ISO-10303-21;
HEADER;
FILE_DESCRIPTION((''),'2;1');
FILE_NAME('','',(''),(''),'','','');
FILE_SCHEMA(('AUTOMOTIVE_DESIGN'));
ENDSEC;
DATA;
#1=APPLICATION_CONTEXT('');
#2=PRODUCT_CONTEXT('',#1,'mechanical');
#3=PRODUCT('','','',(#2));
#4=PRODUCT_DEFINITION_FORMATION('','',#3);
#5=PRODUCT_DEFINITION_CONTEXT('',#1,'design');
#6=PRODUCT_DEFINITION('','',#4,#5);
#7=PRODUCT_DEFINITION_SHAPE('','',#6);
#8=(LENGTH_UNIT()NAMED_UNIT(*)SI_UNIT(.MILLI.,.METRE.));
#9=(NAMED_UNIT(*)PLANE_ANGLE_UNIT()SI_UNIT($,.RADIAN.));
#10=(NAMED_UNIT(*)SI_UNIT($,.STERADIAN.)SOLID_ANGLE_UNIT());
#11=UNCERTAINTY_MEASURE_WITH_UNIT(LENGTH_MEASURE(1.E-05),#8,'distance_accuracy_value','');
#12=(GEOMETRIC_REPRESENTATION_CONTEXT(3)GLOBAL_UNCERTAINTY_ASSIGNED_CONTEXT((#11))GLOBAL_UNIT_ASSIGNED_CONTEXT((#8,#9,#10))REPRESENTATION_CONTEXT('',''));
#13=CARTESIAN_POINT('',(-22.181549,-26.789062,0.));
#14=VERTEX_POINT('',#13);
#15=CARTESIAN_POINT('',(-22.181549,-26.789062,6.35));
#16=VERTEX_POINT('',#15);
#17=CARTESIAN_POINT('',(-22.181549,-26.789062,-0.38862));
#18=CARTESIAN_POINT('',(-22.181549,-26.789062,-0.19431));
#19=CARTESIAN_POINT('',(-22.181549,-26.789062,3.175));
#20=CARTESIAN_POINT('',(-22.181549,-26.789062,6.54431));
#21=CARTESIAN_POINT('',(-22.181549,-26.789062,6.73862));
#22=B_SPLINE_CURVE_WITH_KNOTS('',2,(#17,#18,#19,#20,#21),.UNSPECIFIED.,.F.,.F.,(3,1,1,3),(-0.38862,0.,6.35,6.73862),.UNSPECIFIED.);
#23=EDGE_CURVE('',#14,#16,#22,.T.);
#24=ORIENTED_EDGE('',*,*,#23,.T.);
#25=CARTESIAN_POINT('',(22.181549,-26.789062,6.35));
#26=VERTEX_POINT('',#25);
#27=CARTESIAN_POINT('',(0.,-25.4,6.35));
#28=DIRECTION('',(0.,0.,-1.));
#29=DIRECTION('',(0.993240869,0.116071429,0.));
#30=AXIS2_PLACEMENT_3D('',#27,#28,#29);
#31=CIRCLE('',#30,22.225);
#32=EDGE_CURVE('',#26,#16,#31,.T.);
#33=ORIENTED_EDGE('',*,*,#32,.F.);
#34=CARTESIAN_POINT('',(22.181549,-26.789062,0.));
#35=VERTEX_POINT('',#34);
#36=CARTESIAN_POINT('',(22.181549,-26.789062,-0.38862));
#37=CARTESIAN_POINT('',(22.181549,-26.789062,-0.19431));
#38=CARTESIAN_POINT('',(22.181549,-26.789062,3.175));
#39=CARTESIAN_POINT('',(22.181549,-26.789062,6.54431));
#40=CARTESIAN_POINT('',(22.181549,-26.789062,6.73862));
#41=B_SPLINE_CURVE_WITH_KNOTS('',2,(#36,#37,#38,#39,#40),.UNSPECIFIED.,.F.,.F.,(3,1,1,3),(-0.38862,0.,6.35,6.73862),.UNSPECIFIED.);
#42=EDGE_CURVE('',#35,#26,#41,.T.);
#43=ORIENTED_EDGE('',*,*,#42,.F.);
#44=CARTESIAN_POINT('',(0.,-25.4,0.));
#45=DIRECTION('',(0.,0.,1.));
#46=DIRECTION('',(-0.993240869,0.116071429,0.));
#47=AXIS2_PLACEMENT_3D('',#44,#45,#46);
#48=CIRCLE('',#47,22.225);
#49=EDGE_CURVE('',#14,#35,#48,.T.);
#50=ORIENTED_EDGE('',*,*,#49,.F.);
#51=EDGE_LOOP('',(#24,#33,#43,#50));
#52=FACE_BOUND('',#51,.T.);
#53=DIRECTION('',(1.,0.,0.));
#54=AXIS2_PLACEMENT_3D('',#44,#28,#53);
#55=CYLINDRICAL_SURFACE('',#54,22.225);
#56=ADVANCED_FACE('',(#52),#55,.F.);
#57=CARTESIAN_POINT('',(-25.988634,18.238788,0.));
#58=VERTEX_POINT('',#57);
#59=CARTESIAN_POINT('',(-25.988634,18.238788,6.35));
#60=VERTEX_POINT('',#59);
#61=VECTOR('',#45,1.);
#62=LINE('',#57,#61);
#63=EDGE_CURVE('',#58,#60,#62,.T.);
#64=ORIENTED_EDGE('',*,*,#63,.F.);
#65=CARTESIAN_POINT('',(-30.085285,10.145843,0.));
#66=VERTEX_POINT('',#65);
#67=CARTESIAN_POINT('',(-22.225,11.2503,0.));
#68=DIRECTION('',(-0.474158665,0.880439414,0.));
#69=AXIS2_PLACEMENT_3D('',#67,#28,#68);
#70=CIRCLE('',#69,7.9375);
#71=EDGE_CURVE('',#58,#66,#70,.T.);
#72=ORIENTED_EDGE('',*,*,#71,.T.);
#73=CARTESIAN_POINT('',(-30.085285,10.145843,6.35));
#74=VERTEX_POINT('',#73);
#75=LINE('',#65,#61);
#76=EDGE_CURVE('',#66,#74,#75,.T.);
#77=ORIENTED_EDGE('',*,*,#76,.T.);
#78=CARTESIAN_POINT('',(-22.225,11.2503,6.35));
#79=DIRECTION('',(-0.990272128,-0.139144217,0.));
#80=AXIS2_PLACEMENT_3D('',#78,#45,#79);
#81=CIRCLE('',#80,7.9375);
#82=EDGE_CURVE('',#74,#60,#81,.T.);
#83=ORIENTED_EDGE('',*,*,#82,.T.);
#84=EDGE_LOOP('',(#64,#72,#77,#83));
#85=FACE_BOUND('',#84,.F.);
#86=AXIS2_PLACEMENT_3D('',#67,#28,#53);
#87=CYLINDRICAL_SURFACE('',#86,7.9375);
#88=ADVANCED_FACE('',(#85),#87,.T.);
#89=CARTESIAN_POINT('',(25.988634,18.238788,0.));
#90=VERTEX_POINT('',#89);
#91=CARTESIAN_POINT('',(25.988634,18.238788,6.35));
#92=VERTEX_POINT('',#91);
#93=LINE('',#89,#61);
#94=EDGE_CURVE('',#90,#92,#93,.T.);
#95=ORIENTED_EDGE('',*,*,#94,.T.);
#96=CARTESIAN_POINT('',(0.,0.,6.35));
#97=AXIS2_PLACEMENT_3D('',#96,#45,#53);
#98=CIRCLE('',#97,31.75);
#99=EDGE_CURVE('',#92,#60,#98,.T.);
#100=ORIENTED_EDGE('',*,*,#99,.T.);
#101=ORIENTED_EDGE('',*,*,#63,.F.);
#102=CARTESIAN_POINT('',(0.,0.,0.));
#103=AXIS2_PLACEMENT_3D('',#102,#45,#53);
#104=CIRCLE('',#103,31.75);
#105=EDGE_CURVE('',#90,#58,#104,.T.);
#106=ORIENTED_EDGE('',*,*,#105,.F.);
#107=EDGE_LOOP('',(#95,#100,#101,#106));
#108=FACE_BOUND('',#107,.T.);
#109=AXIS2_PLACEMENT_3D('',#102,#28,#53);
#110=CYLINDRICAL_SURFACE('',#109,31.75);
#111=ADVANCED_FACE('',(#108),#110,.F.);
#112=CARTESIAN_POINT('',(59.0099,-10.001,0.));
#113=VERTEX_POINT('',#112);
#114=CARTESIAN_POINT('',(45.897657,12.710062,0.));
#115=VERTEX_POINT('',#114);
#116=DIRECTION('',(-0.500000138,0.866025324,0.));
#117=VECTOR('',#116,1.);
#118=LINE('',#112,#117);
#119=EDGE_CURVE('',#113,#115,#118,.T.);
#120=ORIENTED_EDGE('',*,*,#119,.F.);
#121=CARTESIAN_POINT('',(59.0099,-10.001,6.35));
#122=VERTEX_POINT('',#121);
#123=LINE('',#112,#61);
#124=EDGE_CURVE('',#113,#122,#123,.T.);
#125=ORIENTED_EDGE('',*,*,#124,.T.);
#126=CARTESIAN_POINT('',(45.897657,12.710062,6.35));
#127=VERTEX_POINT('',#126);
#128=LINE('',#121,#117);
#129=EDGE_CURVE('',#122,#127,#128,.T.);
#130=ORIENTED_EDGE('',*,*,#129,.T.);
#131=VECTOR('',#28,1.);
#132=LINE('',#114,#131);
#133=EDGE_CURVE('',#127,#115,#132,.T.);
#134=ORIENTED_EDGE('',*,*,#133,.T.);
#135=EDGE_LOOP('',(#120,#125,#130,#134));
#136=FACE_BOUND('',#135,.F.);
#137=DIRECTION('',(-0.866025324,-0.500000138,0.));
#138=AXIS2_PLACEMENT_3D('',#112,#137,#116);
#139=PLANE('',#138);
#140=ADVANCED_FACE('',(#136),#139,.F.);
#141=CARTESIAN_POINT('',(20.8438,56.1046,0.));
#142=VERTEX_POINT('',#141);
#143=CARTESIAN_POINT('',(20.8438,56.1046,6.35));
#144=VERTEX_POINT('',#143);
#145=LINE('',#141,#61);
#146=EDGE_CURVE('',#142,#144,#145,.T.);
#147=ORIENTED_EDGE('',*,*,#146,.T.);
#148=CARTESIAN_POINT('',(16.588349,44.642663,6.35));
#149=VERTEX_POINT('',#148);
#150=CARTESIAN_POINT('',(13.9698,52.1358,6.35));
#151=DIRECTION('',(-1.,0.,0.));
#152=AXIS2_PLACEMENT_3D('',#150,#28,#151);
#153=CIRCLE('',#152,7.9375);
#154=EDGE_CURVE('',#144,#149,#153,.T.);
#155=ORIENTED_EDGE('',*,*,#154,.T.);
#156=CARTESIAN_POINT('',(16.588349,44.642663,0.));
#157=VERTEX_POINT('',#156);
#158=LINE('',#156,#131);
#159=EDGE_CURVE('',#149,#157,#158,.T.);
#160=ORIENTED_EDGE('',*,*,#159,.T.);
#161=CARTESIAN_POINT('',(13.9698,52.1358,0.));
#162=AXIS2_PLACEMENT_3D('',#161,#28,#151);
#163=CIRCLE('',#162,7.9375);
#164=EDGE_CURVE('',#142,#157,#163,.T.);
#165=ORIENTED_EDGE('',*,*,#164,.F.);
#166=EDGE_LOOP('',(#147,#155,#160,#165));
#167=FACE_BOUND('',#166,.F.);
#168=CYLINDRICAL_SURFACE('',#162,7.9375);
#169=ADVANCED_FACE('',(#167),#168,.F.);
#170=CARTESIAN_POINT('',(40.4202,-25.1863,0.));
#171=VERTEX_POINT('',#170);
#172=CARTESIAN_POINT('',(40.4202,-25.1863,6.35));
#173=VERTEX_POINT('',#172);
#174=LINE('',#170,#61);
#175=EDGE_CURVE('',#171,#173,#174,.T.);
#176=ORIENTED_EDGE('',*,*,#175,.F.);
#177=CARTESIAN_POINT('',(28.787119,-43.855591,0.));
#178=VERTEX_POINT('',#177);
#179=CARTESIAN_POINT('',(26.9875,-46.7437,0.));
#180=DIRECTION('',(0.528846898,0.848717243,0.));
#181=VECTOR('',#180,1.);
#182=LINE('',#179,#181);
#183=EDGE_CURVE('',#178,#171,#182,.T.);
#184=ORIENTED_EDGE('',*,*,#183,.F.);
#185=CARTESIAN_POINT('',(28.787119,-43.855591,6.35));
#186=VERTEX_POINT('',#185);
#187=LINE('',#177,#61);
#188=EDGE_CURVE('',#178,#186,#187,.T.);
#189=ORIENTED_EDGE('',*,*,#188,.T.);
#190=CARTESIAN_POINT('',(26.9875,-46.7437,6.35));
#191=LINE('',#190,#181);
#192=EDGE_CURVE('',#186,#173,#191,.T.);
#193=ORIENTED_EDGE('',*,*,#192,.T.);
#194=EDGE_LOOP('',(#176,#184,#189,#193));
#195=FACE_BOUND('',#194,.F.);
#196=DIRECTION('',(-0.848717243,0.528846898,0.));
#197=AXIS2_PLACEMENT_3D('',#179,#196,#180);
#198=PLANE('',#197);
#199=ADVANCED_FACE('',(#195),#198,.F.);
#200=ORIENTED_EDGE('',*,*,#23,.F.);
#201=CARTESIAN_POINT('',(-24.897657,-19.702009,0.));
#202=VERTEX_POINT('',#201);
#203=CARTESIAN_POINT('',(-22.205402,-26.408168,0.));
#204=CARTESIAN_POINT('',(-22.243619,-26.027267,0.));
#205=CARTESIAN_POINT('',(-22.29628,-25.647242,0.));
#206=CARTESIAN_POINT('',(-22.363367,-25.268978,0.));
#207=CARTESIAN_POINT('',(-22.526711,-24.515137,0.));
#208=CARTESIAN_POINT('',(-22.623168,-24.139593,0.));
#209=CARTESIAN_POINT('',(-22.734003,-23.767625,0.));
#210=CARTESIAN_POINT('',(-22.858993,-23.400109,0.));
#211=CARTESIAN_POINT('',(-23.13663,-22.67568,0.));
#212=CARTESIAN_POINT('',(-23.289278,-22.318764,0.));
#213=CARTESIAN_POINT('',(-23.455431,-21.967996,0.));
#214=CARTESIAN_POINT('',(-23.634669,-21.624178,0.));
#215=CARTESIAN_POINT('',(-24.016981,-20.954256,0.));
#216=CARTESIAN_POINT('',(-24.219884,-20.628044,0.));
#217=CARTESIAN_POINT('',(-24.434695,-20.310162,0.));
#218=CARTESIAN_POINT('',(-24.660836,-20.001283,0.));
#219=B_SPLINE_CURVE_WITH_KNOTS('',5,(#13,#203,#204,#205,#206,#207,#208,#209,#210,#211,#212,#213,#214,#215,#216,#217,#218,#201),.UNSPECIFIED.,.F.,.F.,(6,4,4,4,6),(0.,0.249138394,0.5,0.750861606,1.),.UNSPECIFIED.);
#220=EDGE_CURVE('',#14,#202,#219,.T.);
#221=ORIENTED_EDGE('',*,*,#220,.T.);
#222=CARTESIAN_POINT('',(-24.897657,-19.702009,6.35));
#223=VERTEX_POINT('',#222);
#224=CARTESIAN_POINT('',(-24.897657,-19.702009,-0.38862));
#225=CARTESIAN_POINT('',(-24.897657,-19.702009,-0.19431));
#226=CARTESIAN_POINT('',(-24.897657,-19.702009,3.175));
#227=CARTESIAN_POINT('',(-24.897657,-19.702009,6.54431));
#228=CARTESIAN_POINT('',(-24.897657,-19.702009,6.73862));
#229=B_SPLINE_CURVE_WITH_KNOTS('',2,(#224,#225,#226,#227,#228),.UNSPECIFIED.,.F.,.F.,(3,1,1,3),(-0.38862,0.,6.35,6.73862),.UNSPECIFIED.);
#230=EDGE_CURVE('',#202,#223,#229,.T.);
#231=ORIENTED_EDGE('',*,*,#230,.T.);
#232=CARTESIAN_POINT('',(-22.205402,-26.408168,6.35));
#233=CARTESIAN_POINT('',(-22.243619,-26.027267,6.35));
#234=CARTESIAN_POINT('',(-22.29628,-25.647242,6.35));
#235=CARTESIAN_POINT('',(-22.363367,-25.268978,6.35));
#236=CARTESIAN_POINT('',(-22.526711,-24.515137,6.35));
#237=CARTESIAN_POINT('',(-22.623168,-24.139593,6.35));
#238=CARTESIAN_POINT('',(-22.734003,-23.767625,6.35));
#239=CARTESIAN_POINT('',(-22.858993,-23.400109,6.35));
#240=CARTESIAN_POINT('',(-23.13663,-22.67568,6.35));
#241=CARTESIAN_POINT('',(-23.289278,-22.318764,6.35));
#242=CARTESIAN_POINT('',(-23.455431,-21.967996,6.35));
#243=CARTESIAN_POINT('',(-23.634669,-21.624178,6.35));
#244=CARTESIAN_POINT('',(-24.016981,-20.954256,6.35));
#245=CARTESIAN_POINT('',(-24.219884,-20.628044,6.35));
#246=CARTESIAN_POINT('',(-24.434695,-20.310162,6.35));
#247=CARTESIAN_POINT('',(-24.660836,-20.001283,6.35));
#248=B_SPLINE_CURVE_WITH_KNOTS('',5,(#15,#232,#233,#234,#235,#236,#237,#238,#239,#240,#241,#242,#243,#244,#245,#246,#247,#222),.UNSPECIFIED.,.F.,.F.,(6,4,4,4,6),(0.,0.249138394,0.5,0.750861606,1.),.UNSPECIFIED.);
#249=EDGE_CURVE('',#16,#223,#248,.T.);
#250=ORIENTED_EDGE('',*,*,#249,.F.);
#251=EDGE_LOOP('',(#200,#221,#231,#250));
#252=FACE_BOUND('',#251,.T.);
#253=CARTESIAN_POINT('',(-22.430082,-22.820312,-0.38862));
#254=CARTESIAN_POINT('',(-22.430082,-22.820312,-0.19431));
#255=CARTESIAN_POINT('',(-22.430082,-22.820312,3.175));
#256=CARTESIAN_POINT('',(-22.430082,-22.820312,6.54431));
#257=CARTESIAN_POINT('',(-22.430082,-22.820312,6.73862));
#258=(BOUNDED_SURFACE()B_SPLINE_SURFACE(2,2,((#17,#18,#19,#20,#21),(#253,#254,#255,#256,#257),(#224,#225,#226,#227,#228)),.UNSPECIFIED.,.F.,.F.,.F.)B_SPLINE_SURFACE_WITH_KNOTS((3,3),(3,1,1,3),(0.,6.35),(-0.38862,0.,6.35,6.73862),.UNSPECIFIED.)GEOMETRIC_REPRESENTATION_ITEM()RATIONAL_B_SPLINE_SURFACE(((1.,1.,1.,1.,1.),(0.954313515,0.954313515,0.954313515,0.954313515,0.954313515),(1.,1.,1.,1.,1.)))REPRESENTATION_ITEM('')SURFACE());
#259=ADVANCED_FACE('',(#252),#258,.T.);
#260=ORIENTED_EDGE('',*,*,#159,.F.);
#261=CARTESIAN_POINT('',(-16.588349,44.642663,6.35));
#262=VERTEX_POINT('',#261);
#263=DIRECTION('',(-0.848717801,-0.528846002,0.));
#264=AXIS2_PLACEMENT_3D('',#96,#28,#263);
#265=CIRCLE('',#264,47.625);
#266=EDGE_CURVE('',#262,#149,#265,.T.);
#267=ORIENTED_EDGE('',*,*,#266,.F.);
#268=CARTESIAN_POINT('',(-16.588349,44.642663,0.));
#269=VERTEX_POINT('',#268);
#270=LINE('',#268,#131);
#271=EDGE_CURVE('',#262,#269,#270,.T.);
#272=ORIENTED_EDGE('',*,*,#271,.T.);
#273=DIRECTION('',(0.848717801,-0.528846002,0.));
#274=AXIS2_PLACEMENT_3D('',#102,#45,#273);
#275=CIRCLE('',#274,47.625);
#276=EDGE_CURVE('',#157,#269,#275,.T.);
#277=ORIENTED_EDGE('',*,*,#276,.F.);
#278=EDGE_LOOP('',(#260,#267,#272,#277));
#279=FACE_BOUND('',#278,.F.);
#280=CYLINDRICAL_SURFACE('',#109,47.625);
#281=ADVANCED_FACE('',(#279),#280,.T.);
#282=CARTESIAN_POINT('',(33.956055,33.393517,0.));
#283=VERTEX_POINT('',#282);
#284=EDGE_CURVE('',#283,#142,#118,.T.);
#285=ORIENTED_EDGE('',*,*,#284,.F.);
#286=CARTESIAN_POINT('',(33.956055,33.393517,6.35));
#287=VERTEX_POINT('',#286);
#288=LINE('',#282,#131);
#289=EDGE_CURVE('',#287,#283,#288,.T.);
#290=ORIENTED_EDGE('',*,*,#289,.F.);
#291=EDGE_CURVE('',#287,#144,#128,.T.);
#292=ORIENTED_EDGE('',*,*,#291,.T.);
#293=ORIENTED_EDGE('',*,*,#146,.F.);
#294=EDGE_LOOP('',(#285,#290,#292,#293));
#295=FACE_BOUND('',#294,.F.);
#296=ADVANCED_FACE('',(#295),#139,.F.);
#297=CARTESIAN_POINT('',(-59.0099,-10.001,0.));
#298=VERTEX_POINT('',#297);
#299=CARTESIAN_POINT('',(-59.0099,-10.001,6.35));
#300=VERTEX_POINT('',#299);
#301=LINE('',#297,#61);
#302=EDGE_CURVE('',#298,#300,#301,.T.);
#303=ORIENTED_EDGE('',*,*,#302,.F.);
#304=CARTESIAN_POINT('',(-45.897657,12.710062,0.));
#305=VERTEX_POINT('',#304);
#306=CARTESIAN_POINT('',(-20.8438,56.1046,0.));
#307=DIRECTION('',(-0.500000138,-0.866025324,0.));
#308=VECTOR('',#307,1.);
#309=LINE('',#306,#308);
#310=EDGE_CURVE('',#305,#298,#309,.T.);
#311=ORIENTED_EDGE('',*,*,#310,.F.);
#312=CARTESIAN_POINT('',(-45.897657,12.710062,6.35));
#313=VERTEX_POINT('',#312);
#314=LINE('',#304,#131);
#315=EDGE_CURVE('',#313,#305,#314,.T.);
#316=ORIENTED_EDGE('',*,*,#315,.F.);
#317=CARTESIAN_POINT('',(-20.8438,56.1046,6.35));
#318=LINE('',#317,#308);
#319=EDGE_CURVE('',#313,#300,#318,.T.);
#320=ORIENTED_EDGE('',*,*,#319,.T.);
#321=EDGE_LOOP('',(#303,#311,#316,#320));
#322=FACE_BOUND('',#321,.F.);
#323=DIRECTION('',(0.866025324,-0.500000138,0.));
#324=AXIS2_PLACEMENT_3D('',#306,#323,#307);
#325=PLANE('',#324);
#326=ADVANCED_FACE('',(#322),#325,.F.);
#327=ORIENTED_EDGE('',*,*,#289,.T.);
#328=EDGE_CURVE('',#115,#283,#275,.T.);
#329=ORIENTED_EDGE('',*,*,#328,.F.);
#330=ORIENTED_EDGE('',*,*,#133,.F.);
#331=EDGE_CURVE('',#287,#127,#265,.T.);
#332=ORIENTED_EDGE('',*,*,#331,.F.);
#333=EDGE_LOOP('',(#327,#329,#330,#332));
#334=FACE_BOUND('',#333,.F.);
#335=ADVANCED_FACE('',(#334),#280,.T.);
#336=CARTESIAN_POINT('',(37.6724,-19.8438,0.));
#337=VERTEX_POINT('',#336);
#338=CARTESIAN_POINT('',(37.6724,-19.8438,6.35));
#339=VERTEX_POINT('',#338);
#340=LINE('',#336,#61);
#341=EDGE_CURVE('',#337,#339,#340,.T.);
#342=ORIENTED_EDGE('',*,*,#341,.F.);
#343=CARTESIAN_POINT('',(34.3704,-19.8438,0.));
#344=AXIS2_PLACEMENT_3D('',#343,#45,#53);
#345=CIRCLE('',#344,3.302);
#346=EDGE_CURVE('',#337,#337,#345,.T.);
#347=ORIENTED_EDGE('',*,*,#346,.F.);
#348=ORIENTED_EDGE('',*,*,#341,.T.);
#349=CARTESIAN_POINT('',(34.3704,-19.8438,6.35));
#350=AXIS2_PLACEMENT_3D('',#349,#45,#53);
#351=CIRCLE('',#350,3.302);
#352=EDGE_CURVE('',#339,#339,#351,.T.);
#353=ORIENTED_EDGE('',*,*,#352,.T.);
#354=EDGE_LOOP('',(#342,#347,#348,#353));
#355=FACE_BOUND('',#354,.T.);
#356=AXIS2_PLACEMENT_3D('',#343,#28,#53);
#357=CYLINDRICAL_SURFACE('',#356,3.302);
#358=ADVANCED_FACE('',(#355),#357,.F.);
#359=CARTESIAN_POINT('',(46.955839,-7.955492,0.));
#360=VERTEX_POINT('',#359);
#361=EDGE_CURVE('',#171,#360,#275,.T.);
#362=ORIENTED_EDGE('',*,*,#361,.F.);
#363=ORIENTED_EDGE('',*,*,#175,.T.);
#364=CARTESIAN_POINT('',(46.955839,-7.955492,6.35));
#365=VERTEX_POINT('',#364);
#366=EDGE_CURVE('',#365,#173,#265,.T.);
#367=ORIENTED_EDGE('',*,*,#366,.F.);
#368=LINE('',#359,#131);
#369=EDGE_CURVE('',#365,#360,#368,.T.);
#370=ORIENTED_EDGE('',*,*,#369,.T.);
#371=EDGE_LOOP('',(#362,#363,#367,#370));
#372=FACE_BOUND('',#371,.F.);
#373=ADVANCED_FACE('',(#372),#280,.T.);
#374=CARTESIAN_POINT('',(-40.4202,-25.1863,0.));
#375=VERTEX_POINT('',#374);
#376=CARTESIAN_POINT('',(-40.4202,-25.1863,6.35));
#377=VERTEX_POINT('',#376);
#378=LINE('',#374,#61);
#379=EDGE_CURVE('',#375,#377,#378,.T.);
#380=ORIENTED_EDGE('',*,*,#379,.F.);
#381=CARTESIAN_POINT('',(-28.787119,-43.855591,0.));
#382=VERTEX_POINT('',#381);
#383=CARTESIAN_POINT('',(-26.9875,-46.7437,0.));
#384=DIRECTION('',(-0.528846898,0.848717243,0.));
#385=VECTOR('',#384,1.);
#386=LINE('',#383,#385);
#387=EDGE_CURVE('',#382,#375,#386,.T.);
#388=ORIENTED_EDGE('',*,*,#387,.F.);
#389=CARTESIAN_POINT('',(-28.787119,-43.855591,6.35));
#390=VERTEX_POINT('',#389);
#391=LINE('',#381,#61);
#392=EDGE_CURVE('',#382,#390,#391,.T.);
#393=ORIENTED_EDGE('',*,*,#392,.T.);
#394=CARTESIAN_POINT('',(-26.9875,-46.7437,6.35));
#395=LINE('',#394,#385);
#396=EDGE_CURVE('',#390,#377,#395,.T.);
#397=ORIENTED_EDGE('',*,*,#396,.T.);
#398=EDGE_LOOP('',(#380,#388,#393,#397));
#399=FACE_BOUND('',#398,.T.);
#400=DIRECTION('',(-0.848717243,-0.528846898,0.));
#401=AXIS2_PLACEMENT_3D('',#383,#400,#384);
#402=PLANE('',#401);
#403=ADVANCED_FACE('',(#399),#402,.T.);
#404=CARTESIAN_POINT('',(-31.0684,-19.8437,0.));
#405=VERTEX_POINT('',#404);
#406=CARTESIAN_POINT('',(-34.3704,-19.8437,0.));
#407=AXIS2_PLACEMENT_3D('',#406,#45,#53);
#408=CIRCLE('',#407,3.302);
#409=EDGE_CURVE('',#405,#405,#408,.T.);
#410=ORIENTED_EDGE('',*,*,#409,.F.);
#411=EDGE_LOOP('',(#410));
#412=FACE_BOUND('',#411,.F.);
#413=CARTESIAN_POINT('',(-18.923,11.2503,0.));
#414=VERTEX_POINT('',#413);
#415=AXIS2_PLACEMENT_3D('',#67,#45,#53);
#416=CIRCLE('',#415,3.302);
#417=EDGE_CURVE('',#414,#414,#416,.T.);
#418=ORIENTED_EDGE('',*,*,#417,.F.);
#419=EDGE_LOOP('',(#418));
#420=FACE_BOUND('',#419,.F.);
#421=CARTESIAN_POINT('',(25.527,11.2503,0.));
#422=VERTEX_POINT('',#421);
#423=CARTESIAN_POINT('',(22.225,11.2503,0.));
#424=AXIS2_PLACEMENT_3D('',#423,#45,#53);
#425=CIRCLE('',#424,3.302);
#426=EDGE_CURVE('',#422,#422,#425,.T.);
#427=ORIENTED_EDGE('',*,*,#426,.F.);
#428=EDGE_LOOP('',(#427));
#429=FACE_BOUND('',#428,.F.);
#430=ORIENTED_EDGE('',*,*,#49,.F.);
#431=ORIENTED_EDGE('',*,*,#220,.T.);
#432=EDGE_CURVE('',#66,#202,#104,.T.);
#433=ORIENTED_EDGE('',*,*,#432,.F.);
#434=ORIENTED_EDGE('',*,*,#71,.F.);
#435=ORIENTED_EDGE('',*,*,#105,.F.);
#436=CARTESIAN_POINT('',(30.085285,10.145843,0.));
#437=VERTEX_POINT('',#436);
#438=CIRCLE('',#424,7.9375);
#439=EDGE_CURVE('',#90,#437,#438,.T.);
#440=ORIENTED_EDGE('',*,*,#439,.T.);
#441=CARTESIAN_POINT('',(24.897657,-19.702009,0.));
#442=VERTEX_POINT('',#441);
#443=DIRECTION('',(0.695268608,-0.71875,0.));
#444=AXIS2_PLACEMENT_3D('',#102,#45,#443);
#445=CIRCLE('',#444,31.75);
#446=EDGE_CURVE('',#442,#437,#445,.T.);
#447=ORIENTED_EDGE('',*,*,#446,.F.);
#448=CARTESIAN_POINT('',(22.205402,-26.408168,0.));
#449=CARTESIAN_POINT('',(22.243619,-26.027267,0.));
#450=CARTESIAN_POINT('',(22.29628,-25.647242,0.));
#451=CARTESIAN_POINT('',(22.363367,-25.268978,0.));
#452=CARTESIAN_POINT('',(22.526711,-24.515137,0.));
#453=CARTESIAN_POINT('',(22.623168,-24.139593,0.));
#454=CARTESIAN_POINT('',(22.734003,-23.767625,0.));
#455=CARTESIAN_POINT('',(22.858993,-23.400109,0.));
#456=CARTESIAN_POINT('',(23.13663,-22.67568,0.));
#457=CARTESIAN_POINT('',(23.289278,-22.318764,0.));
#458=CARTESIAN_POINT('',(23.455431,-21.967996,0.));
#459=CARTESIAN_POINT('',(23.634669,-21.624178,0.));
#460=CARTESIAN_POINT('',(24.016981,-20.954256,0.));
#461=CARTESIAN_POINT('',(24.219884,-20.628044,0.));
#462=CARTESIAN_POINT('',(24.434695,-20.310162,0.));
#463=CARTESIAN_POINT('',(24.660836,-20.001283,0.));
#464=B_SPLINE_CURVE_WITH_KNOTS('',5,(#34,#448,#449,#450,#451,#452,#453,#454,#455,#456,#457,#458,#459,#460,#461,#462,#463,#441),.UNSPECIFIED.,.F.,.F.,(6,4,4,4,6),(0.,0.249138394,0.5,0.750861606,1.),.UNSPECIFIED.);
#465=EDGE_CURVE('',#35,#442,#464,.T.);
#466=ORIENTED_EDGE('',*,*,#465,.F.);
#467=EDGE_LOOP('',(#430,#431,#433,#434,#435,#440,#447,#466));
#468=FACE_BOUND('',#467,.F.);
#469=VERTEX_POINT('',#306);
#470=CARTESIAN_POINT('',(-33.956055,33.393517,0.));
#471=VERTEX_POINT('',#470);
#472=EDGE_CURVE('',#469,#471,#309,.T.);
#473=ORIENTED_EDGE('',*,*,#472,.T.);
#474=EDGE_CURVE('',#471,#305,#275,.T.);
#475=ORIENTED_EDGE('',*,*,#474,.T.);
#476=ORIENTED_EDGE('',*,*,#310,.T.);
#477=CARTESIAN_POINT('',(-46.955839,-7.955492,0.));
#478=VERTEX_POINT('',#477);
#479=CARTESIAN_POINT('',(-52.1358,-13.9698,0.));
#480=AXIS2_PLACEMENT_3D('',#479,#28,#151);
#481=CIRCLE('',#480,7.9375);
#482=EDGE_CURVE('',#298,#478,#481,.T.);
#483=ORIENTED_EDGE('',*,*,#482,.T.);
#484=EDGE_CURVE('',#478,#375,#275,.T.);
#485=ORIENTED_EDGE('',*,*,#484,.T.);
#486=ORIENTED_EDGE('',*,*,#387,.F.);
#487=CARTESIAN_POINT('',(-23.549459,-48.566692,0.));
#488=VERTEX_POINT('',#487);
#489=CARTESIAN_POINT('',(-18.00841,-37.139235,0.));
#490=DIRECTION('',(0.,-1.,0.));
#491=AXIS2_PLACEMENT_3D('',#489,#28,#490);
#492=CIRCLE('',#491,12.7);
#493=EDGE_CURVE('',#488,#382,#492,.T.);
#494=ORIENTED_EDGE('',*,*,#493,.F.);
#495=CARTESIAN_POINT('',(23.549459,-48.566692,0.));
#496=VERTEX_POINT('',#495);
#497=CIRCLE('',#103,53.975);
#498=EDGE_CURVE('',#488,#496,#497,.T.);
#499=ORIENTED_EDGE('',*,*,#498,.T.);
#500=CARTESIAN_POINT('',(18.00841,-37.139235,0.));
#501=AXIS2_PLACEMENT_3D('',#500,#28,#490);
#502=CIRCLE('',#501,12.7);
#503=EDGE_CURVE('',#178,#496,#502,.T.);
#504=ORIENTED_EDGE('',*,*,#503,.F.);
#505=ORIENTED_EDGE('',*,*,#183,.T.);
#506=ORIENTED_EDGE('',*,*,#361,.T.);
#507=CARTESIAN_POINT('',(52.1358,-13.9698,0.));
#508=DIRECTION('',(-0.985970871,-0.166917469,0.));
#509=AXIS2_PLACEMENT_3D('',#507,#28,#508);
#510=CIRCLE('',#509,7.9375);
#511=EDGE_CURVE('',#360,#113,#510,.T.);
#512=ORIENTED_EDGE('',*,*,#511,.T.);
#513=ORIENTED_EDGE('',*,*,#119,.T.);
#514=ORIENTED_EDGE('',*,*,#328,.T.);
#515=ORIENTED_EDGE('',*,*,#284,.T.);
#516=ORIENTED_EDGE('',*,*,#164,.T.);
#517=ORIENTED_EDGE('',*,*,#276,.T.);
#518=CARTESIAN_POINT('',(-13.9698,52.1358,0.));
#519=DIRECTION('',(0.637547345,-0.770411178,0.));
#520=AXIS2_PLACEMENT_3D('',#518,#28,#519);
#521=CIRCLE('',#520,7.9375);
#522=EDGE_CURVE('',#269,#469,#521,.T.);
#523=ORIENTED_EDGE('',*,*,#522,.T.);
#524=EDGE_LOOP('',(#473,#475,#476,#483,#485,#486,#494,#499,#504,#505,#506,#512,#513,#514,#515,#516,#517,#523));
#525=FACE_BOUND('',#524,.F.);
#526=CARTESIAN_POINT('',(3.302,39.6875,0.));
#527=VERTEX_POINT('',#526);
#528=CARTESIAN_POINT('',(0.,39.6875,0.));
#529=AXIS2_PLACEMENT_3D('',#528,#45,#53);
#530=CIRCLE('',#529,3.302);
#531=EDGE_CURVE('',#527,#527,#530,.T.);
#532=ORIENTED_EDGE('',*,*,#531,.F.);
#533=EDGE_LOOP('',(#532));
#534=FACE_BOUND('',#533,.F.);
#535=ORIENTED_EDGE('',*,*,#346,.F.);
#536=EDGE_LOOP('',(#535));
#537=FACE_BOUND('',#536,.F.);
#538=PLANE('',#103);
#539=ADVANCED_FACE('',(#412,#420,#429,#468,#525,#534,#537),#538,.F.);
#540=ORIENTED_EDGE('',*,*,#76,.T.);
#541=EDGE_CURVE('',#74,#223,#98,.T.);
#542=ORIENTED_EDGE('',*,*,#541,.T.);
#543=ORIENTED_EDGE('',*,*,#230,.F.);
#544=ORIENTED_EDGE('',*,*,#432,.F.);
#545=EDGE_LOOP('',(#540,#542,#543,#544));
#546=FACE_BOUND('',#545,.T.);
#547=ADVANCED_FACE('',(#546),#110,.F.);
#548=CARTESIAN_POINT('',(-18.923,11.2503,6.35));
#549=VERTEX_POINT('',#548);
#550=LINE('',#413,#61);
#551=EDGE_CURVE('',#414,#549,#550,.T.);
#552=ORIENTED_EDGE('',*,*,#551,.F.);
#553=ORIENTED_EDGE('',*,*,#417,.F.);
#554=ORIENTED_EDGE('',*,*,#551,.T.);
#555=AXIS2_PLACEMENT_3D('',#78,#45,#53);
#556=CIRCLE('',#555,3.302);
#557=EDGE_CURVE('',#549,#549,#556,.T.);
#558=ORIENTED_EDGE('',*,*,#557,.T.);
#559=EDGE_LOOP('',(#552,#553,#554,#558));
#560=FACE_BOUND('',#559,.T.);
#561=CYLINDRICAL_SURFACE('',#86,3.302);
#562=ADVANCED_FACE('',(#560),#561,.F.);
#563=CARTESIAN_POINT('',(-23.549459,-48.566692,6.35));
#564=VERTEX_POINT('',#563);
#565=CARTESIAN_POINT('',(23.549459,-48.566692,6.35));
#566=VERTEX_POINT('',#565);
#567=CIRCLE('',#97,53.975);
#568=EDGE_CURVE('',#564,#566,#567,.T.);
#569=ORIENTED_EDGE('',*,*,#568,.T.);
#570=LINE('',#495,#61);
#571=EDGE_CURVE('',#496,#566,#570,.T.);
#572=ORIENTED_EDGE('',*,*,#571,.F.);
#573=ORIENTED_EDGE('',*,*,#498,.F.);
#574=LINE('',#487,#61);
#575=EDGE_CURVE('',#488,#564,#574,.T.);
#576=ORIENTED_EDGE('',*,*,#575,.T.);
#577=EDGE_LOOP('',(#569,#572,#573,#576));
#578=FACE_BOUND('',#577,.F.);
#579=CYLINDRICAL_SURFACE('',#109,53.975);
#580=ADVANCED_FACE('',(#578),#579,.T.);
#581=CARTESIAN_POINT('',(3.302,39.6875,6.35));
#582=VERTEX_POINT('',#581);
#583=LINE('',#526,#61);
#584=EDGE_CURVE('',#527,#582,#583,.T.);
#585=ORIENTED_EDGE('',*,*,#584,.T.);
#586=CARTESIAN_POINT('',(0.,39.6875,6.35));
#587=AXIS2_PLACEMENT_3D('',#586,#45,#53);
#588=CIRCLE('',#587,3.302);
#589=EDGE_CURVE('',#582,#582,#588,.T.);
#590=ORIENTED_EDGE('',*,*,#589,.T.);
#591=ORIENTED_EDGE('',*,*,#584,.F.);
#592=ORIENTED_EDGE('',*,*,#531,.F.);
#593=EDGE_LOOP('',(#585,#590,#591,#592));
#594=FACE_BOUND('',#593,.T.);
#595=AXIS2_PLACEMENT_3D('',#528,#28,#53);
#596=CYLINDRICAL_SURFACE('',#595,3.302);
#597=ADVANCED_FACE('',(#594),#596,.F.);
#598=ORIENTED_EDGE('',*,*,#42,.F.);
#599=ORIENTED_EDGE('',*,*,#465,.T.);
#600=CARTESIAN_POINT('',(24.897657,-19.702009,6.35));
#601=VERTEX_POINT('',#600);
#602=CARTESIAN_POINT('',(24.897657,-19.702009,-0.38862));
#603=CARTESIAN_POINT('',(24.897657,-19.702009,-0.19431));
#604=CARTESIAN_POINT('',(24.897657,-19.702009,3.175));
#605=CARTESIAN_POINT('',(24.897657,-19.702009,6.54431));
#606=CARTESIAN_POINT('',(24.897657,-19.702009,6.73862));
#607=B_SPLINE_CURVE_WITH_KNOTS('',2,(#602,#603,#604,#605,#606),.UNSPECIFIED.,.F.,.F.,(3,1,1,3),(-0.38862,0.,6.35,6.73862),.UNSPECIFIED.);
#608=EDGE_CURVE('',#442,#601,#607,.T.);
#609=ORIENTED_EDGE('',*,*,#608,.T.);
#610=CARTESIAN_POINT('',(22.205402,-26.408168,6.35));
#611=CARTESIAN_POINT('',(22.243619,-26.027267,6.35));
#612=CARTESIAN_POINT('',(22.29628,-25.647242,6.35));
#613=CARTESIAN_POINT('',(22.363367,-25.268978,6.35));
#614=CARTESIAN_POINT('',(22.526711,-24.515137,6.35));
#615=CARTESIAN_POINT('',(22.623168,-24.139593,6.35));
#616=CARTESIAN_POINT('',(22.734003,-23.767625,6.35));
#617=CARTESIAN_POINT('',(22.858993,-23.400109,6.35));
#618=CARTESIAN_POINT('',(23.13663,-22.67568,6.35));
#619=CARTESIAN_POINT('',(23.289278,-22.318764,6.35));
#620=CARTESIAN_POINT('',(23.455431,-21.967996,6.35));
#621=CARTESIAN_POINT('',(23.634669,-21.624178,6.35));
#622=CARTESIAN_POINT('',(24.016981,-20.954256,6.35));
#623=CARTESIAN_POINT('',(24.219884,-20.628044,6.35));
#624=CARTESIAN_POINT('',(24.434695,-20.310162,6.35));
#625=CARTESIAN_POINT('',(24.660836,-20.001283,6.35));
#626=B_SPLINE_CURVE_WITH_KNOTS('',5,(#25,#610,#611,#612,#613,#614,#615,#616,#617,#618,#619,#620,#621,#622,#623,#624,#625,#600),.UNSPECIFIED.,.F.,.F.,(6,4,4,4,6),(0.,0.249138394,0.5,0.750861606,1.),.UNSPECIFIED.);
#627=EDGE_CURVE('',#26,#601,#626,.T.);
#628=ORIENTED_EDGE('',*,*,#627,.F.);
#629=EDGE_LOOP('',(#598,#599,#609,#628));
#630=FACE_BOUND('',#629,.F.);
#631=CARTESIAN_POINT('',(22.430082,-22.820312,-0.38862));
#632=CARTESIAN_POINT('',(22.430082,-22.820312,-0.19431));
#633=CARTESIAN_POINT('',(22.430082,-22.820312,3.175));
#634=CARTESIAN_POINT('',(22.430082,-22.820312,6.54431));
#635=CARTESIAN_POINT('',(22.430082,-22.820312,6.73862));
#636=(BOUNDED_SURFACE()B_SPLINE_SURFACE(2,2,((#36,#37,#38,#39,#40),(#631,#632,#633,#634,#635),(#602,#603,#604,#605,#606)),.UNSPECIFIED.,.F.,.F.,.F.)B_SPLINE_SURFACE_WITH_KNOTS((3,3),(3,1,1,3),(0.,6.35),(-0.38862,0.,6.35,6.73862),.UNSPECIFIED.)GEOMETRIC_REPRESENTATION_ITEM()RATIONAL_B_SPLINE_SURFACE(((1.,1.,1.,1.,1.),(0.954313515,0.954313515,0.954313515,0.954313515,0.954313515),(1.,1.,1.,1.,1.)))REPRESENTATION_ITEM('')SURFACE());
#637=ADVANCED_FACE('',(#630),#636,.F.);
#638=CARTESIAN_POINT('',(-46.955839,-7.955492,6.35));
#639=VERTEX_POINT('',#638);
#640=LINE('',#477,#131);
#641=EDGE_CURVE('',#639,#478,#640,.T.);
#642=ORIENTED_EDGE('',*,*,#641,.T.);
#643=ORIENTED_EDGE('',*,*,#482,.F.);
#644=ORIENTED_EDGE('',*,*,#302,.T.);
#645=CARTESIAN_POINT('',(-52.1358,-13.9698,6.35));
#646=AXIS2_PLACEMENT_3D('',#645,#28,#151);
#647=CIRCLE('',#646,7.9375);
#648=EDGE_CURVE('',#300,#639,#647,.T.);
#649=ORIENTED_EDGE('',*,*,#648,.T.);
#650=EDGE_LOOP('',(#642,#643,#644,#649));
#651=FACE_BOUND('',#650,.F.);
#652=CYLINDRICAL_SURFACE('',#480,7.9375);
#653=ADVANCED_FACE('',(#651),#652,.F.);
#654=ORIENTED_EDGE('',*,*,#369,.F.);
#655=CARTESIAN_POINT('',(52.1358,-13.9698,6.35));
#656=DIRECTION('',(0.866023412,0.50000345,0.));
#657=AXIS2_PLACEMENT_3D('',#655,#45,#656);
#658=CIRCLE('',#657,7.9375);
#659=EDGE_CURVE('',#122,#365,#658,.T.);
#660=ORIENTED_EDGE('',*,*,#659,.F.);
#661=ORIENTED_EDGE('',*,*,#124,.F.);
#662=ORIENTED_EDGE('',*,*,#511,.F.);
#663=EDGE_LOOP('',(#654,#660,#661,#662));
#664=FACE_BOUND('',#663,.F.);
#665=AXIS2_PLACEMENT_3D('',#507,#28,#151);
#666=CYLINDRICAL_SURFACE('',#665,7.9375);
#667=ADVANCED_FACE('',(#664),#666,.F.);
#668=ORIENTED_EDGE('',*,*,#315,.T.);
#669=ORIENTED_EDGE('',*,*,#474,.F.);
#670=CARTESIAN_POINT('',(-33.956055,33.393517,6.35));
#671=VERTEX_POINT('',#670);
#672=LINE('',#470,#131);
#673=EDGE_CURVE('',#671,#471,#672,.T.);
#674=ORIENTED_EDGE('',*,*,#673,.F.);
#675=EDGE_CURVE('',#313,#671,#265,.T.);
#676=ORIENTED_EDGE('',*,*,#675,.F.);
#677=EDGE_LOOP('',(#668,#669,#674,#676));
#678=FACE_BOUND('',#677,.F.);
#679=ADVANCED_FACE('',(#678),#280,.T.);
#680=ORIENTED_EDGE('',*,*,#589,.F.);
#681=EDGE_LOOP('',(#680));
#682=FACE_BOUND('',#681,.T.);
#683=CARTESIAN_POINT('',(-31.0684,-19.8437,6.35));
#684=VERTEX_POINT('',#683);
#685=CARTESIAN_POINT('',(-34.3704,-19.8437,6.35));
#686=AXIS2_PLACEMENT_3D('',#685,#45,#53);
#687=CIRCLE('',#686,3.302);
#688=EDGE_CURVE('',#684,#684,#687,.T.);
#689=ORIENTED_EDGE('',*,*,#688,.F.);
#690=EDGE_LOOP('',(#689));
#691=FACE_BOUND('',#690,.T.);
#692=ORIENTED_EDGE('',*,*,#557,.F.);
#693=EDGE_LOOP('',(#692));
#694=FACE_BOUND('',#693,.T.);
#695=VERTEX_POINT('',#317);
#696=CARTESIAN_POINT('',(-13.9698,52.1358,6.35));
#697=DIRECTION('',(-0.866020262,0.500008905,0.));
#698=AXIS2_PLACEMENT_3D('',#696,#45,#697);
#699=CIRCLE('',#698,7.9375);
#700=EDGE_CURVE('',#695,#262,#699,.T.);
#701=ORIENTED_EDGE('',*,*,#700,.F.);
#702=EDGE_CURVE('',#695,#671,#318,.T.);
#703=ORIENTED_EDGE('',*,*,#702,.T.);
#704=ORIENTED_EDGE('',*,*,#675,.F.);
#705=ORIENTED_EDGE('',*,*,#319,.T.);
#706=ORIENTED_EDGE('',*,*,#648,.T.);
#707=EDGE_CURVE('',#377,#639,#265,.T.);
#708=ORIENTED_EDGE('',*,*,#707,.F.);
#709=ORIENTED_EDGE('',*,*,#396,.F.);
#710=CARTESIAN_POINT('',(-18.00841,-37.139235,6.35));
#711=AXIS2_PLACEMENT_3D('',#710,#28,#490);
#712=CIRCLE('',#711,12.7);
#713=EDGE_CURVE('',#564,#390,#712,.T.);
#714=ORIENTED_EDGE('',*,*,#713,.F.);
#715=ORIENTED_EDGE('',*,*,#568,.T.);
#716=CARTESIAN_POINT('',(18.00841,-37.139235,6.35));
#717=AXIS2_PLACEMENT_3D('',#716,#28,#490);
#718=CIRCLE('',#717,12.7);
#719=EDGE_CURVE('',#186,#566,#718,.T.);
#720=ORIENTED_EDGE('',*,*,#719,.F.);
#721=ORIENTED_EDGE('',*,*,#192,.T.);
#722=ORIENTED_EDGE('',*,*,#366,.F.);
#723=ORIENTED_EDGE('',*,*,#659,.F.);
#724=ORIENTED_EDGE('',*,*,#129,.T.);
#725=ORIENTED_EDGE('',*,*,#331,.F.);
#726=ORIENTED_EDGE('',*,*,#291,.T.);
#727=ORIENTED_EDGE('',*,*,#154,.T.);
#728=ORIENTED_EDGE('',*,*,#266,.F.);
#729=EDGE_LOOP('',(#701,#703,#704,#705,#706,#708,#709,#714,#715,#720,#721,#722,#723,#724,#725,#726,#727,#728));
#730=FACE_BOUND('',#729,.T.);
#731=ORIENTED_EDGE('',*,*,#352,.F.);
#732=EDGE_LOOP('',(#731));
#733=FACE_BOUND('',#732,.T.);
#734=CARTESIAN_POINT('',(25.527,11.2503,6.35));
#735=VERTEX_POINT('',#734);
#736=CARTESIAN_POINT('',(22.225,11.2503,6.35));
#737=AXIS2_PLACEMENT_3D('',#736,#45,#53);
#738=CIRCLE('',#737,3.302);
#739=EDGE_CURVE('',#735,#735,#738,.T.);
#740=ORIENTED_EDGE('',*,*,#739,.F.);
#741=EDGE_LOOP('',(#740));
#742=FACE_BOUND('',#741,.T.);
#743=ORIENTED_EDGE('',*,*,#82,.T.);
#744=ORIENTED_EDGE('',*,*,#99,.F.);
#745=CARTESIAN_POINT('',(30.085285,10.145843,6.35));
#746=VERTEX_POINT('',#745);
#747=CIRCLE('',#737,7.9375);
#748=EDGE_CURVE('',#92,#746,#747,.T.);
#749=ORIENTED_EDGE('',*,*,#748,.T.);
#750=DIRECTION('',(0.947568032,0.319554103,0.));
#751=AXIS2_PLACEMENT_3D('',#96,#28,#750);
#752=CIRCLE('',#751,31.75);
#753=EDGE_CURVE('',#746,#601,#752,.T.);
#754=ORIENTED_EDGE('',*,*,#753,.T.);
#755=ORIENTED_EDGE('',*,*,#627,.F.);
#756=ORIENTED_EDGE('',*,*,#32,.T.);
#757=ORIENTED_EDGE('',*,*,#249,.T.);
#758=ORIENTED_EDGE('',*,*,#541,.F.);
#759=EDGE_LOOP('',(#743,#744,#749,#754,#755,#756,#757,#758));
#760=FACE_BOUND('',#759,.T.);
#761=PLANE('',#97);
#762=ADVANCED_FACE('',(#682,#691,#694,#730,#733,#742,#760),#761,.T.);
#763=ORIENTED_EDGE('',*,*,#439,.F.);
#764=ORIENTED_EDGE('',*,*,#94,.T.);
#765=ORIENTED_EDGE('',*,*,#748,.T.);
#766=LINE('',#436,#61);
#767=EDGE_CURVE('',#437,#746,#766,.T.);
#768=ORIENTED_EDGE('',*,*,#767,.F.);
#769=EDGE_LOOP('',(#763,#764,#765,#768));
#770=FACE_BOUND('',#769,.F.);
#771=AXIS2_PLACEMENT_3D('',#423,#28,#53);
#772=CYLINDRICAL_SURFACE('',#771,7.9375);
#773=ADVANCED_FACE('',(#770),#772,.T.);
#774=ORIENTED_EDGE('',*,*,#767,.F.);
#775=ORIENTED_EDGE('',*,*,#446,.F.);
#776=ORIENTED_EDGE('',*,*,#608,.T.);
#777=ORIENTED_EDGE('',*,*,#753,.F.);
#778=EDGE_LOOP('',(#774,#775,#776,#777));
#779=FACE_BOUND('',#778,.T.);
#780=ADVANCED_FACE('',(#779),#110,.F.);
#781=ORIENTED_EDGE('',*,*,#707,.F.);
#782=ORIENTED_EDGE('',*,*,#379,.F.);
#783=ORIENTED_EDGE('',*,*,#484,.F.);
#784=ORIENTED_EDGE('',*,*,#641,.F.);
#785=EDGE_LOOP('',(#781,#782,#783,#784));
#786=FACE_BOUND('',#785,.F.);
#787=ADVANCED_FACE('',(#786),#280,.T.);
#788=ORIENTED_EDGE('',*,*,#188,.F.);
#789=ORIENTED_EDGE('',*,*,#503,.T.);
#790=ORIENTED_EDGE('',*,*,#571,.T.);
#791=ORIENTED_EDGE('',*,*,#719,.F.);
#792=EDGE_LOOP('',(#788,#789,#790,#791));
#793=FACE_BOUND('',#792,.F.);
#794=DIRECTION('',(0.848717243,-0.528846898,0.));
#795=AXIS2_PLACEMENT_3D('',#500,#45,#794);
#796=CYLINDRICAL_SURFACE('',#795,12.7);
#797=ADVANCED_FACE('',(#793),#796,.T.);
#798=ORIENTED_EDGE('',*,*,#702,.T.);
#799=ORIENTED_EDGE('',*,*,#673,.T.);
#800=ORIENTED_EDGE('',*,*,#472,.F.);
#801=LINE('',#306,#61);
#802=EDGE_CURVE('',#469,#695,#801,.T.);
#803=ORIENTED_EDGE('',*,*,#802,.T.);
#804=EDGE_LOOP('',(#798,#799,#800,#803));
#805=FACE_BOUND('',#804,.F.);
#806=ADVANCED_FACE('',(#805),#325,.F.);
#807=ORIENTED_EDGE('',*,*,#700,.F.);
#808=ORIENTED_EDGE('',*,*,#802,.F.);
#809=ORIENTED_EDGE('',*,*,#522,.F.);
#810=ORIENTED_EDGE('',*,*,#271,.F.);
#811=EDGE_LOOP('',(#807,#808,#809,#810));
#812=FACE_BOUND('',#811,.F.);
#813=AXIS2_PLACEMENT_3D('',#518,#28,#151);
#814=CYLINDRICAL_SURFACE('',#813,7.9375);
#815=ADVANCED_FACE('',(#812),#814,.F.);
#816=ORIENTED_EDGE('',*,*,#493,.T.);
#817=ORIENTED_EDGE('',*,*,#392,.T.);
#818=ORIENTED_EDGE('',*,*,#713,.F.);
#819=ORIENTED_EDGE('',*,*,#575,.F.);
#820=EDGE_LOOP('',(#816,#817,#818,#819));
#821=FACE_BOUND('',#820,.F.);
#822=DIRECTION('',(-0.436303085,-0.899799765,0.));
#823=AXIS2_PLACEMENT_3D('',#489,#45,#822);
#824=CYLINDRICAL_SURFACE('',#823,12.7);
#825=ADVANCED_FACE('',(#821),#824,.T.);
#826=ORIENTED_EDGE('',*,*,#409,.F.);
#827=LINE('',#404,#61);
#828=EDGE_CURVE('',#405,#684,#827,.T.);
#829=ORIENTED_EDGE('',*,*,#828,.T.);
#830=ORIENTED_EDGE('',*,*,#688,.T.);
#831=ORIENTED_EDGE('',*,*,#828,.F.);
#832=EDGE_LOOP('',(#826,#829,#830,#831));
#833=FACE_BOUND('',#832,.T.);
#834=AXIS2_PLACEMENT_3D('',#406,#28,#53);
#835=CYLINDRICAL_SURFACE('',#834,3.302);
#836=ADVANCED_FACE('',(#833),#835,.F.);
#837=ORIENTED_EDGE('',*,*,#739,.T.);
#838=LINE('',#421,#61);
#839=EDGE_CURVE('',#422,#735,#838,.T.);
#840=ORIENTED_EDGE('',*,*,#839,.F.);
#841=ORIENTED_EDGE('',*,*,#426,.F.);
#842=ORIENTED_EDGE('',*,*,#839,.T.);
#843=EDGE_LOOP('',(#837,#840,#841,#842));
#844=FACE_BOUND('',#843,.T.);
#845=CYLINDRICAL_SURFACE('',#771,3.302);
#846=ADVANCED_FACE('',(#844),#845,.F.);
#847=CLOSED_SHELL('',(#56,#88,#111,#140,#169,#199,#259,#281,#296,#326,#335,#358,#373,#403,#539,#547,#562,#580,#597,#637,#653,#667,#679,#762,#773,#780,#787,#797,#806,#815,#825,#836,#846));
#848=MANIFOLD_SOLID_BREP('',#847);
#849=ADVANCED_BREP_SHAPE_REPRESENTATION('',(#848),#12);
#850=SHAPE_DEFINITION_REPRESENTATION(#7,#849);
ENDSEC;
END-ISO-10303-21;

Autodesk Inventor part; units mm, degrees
ref_plane "YZ Plane" through (0, 0, 0) normal (1, 0, 0) x (0, 1, 0)
ref_plane "XZ Plane" through (0, 0, 0) normal (0, 1, 0) x (-1, 0, 0)
ref_plane "XY Plane" through (0, 0, 0) normal (0, 0, 1) x (1, 0, 0)
sketch "Sketch1" plane through (0, 0, 0) normal (0, 0, 1) x (1, 0, 0)
  circle A0 centre (0, 0) radius 47.625
  line L0 (0, 0) -> (0, 47.625) construction
  circle A1 centre (0, 39.6875) radius 7.9375 construction
  circle A2 centre (0, 39.6875) radius 3.302
  circle A3 centre (-34.3704, -19.8437) radius 3.302
  circle A4 centre (34.3704, -19.8438) radius 3.302
  circle A5 centre (0, 0) radius 31.75
  circle A6 centre (0, -25.4) radius 22.225 construction
  circle A7 centre (0, -25.4) radius 22.225
  circle A8 centre (0, 0) radius 53.975
  line L1 (0, 0) -> (-26.9875, -46.7437)
  line L2 (0, 0) -> (26.9875, -46.7437)
  line L3 (-26.9875, -46.7437) -> (-40.4202, -25.1863)
  line L4 (26.9875, -46.7437) -> (40.4202, -25.1863)
  circle A9 centre (-34.3704, -19.8437) radius 7.9375 construction
  circle A10 centre (34.3704, -19.8438) radius 7.9375 construction
  circle A11 centre (0, 39.6875) radius 4.7625 construction
  circle A12 centre (-34.3704, -19.8437) radius 4.7625 construction
  circle A13 centre (34.3704, -19.8438) radius 4.7625 construction
  circle A14 centre (22.225, 11.2503) radius 20.6375 construction
  circle A15 centre (22.225, 11.2503) radius 3.302
  circle A16 centre (22.225, 11.2503) radius 7.9375
  circle A17 centre (-22.225, 11.2503) radius 3.302
  circle A18 centre (-22.225, 11.2503) radius 7.9375
  point P0 (-22.0748, -22.8203)
  point P1 (22.0748, -22.8203)
  point P2 (26.9875, -46.7437)
  point P3 (40.4202, -25.1863)
  dimension "d12" = 107.95
  dimension "d0" = 95.25
  dimension "d1" = 15.875
  dimension "d2" = 6.604
  dimension "d5" = 360
  dimension "d7" = 63.5
  dimension "d10" = 44.45
  dimension "d11" = 44.45
  dimension "d13" = 30
  dimension "d17" = 360
  dimension "d21" = 9.525
  dimension "d24" = 360
  dimension "d61" = 41.275
  dimension "d62" = 22.225
  dimension "d63" = 6.604
  dimension "d64" = 15.875
extrude "Extrusion1" add sketch "Sketch1" along normal blind 6.35 contours A0 L2 A7 A5 A16 A18 L1 | A0 L1 L3 | L4 L2 A0 | L1 A7 A0 | A0 L2 A8 L1 | A0 A7 L2 | A18 A5 | A5 A18 | A16 A5 | A5 A16
fillet "Fillet1" radius 12.7 4 edges at (-22.0748, -22.8203, 3.175) (22.0748, -22.8203, 3.175) (26.9875, -46.7437, 3.175) (-26.9875, -46.7437, 3.175)
sketch "Sketch2" plane through (0, 0, 0) normal (0, 0, -1) x (-1, 0, 0)
  point P0 (-38.1661, -38.1661)
  point P1 (-52.1358, -13.9698)
  point P2 (-13.9698, 52.1358)
  point P3 (13.9698, 52.1358)
  point P4 (52.1358, -13.9698)
  point P5 (38.1661, -38.1661)
hole "Hole1" at (38.1661, -38.1661, 0) at (52.1358, -13.9698, 0) at (13.9698, 52.1358, 0) at (-13.9698, 52.1358, 0) at (-52.1358, -13.9698, 0) at (-38.1661, -38.1661, 0) direction (0, 0, 1) diameter 6.604 end through all
sketch "Sketch3" plane through (0, 0, 0) normal (0, 0, -1) x (-1, 0, 0)
  circle A0 centre (13.9698, 52.1358) radius 3.302 projected
  circle A1 centre (13.9698, 52.1358) radius 7.9375
  circle A2 centre (-13.9698, 52.1358) radius 3.302 projected
  circle A3 centre (-13.9698, 52.1358) radius 7.9375
  circle A4 centre (-52.1358, -13.9698) radius 7.9375
  circle A5 centre (-38.1661, -38.1661) radius 7.9375
  circle A6 centre (38.1661, -38.1661) radius 7.9375
  circle A7 centre (52.1358, -13.9698) radius 7.9375
  line L0 (20.8438, 56.1046) -> (59.0099, -10.001)
  line L1 (-59.0099, -10.001) -> (-20.8438, 56.1046)
  line L2 (38.1661, -46.1036) -> (-38.1661, -46.1036)
  arc A8 (44.3097, -15.2947) -> (8.9093, 46.0207) centre (-55.8649, -32.2536) ccw
  arc A9 (-8.9093, 46.0207) -> (-44.3097, -15.2947) centre (55.8649, -32.2536) ccw
  arc A10 (-35.4004, -30.726) -> (35.4004, -30.726) centre (0, 64.5072) ccw
  circle A11 centre (0, 0) radius 61.9125
  circle A12 centre (0, 39.6875) radius 3.302 projected
  circle A13 centre (0, 39.6875) radius 7.9375
  circle A14 centre (0, 0) radius 39.6875 construction
  point P0 (-44.3097, -15.2947)
  point P1 (-8.9093, 46.0207)
  point P2 (-16.0241, 59.8029)
  point P3 (-59.8029, -16.0241)
  point P4 (59.8029, -16.0241)
  point P5 (16.0241, 59.8029)
  dimension "d33" = 15.875
  dimension "d34" = 15.875
  dimension "d37" = 360
  dimension "d41" = 360
  dimension "d43" = 101.6
  dimension "d46" = 360
  dimension "d50" = 15.875
extrude "Extrusion2" add sketch "Sketch3" against normal blind 6.35 contours A1 L0 A7 A8 | A3 A9 A4 L1
sketch "Sketch4" plane through (0, 0, 6.35) normal (0, 0, 1) x (1, 0, 0)
  arc A0 (-46.9558, -7.9555) -> (-40.4202, -25.1863) centre (0, 0) ccw projected
  line L0 (-40.4202, -25.1863) -> (-28.7871, -43.8556) projected
  arc A1 (-28.7871, -43.8556) -> (-23.5495, -48.5667) centre (-18.0084, -37.1392) ccw projected
  arc A2 (-23.5495, -48.5667) -> (23.5495, -48.5667) centre (0, 0) ccw projected
  arc A3 (23.5495, -48.5667) -> (28.7871, -43.8556) centre (18.0084, -37.1392) ccw projected
  line L1 (28.7871, -43.8556) -> (40.4202, -25.1863) projected
  arc A4 (40.4202, -25.1863) -> (46.9558, -7.9555) centre (0, 0) ccw projected
  line L2 (59.0099, -10.001) -> (20.8438, 56.1046) projected
  arc A5 (16.5883, 44.6427) -> (-16.5883, 44.6427) centre (0, 0) ccw projected
  line L3 (-20.8438, 56.1046) -> (-59.0099, -10.001) projected
  arc A6 (16.6623, -41.2089) -> (42.2431, -13.832) centre (0, 0) ccw projected
  arc A7 (16.6623, -41.2089) -> (13.6328, -42.9527) centre (21.423, -52.9828) ccw projected
  arc A8 (-13.6328, -42.9527) -> (13.6328, -42.9527) centre (0, -25.4) ccw projected
  arc A9 (-13.6328, -42.9527) -> (-16.6623, -41.2089) centre (-21.423, -52.9828) ccw projected
  arc A10 (-42.2431, -13.832) -> (-16.6623, -41.2089) centre (0, 0) ccw projected
  arc A11 (-42.4649, -6.6838) -> (-42.2431, -13.832) centre (-30.1736, -9.88) ccw projected
  arc A12 (-15.4441, 40.1175) -> (-42.4649, -6.6838) centre (55.8649, -32.2536) ccw projected
  arc A13 (-9.1427, 43.4996) -> (-15.4441, 40.1175) centre (-6.5305, 31.0711) ccw projected
  arc A14 (9.1427, 43.4996) -> (-9.1427, 43.4996) centre (0, 0) ccw projected
  arc A15 (15.4441, 40.1175) -> (9.1427, 43.4996) centre (6.5305, 31.0711) ccw projected
  arc A16 (42.4649, -6.6838) -> (15.4441, 40.1175) centre (-55.8649, -32.2536) ccw projected
  arc A17 (42.2431, -13.832) -> (42.4649, -6.6838) centre (30.1736, -9.88) ccw projected
  arc A18 (17.6725, 42.3791) -> (9.7957, 46.6067) centre (6.5305, 31.0711) ccw
  arc A19 (9.7957, 46.6067) -> (-9.7957, 46.6067) centre (0, 0) ccw
  arc A20 (-9.7957, 46.6067) -> (-17.6725, 42.3791) centre (-6.5305, 31.0711) ccw
  arc A21 (-17.6725, 42.3791) -> (-45.5377, -5.8847) centre (55.8649, -32.2536) ccw
  arc A22 (-45.5377, -5.8847) -> (-45.2604, -14.82) centre (-30.1736, -9.88) ccw
  arc A23 (-45.2604, -14.82) -> (-17.8525, -44.1523) centre (0, 0) ccw
  arc A24 (-15.5803, -45.4602) -> (-17.8525, -44.1523) centre (-21.423, -52.9828) ccw
  arc A25 (-15.5803, -45.4602) -> (15.5803, -45.4602) centre (0, -25.4) ccw
  arc A26 (17.8525, -44.1523) -> (15.5803, -45.4602) centre (21.423, -52.9828) ccw
  arc A27 (17.8525, -44.1523) -> (45.2604, -14.82) centre (0, 0) ccw
  arc A28 (45.2604, -14.82) -> (45.5377, -5.8847) centre (30.1736, -9.88) ccw
  arc A29 (45.5377, -5.8847) -> (17.6725, 42.3791) centre (-55.8649, -32.2536) ccw
  circle A30 centre (52.1358, -13.9698) radius 7.9375
  circle A31 centre (38.1661, -38.1661) radius 7.9375
  line L4 (0, 0) -> (0, -47.625) construction
  arc A32 (-13.6328, -42.9527) -> (13.6328, -42.9527) centre (0, -25.4) ccw projected
  circle A33 centre (13.9698, 52.1358) radius 3.302 projected
  circle A34 centre (13.9698, 52.1358) radius 7.9375
  circle A35 centre (-52.1358, -13.9698) radius 7.9375
  circle A36 centre (-38.1661, -38.1661) radius 7.9375
  circle A37 centre (-13.9698, 52.1358) radius 7.9375
  circle A38 centre (22.225, 11.2503) radius 7.9375 projected
  circle A39 centre (-22.225, 11.2503) radius 7.9375 projected
  arc A40 (16.5883, 44.6427) -> (20.8438, 56.1046) centre (13.9698, 52.1358) ccw projected
  arc A41 (-20.8438, 56.1046) -> (-16.5883, 44.6427) centre (-13.9698, 52.1358) ccw projected
  arc A42 (-46.9558, -7.9555) -> (-59.0099, -10.001) centre (-52.1358, -13.9698) ccw projected
  arc A43 (59.0099, -10.001) -> (46.9558, -7.9555) centre (52.1358, -13.9698) ccw projected
  point P0 (-46.019, -8.9112)
  point P1 (-15.2922, 44.3093)
  point P2 (15.2922, 44.3093)
  point P3 (46.019, -8.9112)
  point P4 (37.2448, -30.2822)
  point P5 (30.5492, -40.3992)
  point P6 (-30.5492, -40.3992)
  point P7 (-30.683, -40.8131)
  point P8 (-44.6427, -16.5883)
  point P9 (9.7957, 46.6067)
  point P10 (-7.9555, 46.9558)
  point P11 (-16.5883, 44.6427)
  point P12 (-9.7957, 46.6067)
  point P13 (-44.7415, -16.8555)
  point P14 (-46.9558, -7.9555)
  point P15 (44.6427, -16.5883)
  point P16 (7.9555, 46.9558)
  point P17 (46.9558, -7.9555)
  point P18 (16.5883, 44.6427)
  point P19 (36.6872, -30.3676)
  point P20 (30.3676, -36.6872)
  point P21 (-30.3676, -36.6872)
  point P22 (-36.6872, -30.3676)
  point P23 (45.2604, -14.82)
  point P24 (-44.6427, -16.5883)
  point P25 (-40.4202, -25.1863)
  point P26 (-40.4202, -25.1863)
  point P27 (44.6427, -16.5883)
  point P28 (-37.2448, -30.2822)
  point P29 (30.683, -40.8131)
  dimension "d54" = 3.175
  dimension "d55" = 15.875
  dimension "d56" = 15.875
  dimension "d57" = 15.875
sketch "Sketch5" plane through (0, 0, 6.35) normal (0, 0, 1) x (1, 0, 0)
  arc A0 (-27.9283, -37.7947) -> (27.9283, -37.7947) centre (0, -31.75) ccw projected
  line L0 (0, 0) -> (0, -31.75) construction
  circle A1 centre (0, -60.325) radius 6.35
  dimension "d65" = 12.7
equation "\"d0\" = Ring_ID"
equation "\"d10\" = Pulley_OD"
equation "\"d11\" = Pulley_OD"
equation "\"d61\" = Brass_OD"
equation "\"d62\" = Brass_Offset"
equation "\"Ring_ID\" = 95.25"
equation "\"Pulley_OD\" = 44.45"
equation "\"Brass_OD\" = 41.275"
equation "\"Brass_Offset\" = 22.225"
properties part number "Support Ring" material "UHMW, White"
